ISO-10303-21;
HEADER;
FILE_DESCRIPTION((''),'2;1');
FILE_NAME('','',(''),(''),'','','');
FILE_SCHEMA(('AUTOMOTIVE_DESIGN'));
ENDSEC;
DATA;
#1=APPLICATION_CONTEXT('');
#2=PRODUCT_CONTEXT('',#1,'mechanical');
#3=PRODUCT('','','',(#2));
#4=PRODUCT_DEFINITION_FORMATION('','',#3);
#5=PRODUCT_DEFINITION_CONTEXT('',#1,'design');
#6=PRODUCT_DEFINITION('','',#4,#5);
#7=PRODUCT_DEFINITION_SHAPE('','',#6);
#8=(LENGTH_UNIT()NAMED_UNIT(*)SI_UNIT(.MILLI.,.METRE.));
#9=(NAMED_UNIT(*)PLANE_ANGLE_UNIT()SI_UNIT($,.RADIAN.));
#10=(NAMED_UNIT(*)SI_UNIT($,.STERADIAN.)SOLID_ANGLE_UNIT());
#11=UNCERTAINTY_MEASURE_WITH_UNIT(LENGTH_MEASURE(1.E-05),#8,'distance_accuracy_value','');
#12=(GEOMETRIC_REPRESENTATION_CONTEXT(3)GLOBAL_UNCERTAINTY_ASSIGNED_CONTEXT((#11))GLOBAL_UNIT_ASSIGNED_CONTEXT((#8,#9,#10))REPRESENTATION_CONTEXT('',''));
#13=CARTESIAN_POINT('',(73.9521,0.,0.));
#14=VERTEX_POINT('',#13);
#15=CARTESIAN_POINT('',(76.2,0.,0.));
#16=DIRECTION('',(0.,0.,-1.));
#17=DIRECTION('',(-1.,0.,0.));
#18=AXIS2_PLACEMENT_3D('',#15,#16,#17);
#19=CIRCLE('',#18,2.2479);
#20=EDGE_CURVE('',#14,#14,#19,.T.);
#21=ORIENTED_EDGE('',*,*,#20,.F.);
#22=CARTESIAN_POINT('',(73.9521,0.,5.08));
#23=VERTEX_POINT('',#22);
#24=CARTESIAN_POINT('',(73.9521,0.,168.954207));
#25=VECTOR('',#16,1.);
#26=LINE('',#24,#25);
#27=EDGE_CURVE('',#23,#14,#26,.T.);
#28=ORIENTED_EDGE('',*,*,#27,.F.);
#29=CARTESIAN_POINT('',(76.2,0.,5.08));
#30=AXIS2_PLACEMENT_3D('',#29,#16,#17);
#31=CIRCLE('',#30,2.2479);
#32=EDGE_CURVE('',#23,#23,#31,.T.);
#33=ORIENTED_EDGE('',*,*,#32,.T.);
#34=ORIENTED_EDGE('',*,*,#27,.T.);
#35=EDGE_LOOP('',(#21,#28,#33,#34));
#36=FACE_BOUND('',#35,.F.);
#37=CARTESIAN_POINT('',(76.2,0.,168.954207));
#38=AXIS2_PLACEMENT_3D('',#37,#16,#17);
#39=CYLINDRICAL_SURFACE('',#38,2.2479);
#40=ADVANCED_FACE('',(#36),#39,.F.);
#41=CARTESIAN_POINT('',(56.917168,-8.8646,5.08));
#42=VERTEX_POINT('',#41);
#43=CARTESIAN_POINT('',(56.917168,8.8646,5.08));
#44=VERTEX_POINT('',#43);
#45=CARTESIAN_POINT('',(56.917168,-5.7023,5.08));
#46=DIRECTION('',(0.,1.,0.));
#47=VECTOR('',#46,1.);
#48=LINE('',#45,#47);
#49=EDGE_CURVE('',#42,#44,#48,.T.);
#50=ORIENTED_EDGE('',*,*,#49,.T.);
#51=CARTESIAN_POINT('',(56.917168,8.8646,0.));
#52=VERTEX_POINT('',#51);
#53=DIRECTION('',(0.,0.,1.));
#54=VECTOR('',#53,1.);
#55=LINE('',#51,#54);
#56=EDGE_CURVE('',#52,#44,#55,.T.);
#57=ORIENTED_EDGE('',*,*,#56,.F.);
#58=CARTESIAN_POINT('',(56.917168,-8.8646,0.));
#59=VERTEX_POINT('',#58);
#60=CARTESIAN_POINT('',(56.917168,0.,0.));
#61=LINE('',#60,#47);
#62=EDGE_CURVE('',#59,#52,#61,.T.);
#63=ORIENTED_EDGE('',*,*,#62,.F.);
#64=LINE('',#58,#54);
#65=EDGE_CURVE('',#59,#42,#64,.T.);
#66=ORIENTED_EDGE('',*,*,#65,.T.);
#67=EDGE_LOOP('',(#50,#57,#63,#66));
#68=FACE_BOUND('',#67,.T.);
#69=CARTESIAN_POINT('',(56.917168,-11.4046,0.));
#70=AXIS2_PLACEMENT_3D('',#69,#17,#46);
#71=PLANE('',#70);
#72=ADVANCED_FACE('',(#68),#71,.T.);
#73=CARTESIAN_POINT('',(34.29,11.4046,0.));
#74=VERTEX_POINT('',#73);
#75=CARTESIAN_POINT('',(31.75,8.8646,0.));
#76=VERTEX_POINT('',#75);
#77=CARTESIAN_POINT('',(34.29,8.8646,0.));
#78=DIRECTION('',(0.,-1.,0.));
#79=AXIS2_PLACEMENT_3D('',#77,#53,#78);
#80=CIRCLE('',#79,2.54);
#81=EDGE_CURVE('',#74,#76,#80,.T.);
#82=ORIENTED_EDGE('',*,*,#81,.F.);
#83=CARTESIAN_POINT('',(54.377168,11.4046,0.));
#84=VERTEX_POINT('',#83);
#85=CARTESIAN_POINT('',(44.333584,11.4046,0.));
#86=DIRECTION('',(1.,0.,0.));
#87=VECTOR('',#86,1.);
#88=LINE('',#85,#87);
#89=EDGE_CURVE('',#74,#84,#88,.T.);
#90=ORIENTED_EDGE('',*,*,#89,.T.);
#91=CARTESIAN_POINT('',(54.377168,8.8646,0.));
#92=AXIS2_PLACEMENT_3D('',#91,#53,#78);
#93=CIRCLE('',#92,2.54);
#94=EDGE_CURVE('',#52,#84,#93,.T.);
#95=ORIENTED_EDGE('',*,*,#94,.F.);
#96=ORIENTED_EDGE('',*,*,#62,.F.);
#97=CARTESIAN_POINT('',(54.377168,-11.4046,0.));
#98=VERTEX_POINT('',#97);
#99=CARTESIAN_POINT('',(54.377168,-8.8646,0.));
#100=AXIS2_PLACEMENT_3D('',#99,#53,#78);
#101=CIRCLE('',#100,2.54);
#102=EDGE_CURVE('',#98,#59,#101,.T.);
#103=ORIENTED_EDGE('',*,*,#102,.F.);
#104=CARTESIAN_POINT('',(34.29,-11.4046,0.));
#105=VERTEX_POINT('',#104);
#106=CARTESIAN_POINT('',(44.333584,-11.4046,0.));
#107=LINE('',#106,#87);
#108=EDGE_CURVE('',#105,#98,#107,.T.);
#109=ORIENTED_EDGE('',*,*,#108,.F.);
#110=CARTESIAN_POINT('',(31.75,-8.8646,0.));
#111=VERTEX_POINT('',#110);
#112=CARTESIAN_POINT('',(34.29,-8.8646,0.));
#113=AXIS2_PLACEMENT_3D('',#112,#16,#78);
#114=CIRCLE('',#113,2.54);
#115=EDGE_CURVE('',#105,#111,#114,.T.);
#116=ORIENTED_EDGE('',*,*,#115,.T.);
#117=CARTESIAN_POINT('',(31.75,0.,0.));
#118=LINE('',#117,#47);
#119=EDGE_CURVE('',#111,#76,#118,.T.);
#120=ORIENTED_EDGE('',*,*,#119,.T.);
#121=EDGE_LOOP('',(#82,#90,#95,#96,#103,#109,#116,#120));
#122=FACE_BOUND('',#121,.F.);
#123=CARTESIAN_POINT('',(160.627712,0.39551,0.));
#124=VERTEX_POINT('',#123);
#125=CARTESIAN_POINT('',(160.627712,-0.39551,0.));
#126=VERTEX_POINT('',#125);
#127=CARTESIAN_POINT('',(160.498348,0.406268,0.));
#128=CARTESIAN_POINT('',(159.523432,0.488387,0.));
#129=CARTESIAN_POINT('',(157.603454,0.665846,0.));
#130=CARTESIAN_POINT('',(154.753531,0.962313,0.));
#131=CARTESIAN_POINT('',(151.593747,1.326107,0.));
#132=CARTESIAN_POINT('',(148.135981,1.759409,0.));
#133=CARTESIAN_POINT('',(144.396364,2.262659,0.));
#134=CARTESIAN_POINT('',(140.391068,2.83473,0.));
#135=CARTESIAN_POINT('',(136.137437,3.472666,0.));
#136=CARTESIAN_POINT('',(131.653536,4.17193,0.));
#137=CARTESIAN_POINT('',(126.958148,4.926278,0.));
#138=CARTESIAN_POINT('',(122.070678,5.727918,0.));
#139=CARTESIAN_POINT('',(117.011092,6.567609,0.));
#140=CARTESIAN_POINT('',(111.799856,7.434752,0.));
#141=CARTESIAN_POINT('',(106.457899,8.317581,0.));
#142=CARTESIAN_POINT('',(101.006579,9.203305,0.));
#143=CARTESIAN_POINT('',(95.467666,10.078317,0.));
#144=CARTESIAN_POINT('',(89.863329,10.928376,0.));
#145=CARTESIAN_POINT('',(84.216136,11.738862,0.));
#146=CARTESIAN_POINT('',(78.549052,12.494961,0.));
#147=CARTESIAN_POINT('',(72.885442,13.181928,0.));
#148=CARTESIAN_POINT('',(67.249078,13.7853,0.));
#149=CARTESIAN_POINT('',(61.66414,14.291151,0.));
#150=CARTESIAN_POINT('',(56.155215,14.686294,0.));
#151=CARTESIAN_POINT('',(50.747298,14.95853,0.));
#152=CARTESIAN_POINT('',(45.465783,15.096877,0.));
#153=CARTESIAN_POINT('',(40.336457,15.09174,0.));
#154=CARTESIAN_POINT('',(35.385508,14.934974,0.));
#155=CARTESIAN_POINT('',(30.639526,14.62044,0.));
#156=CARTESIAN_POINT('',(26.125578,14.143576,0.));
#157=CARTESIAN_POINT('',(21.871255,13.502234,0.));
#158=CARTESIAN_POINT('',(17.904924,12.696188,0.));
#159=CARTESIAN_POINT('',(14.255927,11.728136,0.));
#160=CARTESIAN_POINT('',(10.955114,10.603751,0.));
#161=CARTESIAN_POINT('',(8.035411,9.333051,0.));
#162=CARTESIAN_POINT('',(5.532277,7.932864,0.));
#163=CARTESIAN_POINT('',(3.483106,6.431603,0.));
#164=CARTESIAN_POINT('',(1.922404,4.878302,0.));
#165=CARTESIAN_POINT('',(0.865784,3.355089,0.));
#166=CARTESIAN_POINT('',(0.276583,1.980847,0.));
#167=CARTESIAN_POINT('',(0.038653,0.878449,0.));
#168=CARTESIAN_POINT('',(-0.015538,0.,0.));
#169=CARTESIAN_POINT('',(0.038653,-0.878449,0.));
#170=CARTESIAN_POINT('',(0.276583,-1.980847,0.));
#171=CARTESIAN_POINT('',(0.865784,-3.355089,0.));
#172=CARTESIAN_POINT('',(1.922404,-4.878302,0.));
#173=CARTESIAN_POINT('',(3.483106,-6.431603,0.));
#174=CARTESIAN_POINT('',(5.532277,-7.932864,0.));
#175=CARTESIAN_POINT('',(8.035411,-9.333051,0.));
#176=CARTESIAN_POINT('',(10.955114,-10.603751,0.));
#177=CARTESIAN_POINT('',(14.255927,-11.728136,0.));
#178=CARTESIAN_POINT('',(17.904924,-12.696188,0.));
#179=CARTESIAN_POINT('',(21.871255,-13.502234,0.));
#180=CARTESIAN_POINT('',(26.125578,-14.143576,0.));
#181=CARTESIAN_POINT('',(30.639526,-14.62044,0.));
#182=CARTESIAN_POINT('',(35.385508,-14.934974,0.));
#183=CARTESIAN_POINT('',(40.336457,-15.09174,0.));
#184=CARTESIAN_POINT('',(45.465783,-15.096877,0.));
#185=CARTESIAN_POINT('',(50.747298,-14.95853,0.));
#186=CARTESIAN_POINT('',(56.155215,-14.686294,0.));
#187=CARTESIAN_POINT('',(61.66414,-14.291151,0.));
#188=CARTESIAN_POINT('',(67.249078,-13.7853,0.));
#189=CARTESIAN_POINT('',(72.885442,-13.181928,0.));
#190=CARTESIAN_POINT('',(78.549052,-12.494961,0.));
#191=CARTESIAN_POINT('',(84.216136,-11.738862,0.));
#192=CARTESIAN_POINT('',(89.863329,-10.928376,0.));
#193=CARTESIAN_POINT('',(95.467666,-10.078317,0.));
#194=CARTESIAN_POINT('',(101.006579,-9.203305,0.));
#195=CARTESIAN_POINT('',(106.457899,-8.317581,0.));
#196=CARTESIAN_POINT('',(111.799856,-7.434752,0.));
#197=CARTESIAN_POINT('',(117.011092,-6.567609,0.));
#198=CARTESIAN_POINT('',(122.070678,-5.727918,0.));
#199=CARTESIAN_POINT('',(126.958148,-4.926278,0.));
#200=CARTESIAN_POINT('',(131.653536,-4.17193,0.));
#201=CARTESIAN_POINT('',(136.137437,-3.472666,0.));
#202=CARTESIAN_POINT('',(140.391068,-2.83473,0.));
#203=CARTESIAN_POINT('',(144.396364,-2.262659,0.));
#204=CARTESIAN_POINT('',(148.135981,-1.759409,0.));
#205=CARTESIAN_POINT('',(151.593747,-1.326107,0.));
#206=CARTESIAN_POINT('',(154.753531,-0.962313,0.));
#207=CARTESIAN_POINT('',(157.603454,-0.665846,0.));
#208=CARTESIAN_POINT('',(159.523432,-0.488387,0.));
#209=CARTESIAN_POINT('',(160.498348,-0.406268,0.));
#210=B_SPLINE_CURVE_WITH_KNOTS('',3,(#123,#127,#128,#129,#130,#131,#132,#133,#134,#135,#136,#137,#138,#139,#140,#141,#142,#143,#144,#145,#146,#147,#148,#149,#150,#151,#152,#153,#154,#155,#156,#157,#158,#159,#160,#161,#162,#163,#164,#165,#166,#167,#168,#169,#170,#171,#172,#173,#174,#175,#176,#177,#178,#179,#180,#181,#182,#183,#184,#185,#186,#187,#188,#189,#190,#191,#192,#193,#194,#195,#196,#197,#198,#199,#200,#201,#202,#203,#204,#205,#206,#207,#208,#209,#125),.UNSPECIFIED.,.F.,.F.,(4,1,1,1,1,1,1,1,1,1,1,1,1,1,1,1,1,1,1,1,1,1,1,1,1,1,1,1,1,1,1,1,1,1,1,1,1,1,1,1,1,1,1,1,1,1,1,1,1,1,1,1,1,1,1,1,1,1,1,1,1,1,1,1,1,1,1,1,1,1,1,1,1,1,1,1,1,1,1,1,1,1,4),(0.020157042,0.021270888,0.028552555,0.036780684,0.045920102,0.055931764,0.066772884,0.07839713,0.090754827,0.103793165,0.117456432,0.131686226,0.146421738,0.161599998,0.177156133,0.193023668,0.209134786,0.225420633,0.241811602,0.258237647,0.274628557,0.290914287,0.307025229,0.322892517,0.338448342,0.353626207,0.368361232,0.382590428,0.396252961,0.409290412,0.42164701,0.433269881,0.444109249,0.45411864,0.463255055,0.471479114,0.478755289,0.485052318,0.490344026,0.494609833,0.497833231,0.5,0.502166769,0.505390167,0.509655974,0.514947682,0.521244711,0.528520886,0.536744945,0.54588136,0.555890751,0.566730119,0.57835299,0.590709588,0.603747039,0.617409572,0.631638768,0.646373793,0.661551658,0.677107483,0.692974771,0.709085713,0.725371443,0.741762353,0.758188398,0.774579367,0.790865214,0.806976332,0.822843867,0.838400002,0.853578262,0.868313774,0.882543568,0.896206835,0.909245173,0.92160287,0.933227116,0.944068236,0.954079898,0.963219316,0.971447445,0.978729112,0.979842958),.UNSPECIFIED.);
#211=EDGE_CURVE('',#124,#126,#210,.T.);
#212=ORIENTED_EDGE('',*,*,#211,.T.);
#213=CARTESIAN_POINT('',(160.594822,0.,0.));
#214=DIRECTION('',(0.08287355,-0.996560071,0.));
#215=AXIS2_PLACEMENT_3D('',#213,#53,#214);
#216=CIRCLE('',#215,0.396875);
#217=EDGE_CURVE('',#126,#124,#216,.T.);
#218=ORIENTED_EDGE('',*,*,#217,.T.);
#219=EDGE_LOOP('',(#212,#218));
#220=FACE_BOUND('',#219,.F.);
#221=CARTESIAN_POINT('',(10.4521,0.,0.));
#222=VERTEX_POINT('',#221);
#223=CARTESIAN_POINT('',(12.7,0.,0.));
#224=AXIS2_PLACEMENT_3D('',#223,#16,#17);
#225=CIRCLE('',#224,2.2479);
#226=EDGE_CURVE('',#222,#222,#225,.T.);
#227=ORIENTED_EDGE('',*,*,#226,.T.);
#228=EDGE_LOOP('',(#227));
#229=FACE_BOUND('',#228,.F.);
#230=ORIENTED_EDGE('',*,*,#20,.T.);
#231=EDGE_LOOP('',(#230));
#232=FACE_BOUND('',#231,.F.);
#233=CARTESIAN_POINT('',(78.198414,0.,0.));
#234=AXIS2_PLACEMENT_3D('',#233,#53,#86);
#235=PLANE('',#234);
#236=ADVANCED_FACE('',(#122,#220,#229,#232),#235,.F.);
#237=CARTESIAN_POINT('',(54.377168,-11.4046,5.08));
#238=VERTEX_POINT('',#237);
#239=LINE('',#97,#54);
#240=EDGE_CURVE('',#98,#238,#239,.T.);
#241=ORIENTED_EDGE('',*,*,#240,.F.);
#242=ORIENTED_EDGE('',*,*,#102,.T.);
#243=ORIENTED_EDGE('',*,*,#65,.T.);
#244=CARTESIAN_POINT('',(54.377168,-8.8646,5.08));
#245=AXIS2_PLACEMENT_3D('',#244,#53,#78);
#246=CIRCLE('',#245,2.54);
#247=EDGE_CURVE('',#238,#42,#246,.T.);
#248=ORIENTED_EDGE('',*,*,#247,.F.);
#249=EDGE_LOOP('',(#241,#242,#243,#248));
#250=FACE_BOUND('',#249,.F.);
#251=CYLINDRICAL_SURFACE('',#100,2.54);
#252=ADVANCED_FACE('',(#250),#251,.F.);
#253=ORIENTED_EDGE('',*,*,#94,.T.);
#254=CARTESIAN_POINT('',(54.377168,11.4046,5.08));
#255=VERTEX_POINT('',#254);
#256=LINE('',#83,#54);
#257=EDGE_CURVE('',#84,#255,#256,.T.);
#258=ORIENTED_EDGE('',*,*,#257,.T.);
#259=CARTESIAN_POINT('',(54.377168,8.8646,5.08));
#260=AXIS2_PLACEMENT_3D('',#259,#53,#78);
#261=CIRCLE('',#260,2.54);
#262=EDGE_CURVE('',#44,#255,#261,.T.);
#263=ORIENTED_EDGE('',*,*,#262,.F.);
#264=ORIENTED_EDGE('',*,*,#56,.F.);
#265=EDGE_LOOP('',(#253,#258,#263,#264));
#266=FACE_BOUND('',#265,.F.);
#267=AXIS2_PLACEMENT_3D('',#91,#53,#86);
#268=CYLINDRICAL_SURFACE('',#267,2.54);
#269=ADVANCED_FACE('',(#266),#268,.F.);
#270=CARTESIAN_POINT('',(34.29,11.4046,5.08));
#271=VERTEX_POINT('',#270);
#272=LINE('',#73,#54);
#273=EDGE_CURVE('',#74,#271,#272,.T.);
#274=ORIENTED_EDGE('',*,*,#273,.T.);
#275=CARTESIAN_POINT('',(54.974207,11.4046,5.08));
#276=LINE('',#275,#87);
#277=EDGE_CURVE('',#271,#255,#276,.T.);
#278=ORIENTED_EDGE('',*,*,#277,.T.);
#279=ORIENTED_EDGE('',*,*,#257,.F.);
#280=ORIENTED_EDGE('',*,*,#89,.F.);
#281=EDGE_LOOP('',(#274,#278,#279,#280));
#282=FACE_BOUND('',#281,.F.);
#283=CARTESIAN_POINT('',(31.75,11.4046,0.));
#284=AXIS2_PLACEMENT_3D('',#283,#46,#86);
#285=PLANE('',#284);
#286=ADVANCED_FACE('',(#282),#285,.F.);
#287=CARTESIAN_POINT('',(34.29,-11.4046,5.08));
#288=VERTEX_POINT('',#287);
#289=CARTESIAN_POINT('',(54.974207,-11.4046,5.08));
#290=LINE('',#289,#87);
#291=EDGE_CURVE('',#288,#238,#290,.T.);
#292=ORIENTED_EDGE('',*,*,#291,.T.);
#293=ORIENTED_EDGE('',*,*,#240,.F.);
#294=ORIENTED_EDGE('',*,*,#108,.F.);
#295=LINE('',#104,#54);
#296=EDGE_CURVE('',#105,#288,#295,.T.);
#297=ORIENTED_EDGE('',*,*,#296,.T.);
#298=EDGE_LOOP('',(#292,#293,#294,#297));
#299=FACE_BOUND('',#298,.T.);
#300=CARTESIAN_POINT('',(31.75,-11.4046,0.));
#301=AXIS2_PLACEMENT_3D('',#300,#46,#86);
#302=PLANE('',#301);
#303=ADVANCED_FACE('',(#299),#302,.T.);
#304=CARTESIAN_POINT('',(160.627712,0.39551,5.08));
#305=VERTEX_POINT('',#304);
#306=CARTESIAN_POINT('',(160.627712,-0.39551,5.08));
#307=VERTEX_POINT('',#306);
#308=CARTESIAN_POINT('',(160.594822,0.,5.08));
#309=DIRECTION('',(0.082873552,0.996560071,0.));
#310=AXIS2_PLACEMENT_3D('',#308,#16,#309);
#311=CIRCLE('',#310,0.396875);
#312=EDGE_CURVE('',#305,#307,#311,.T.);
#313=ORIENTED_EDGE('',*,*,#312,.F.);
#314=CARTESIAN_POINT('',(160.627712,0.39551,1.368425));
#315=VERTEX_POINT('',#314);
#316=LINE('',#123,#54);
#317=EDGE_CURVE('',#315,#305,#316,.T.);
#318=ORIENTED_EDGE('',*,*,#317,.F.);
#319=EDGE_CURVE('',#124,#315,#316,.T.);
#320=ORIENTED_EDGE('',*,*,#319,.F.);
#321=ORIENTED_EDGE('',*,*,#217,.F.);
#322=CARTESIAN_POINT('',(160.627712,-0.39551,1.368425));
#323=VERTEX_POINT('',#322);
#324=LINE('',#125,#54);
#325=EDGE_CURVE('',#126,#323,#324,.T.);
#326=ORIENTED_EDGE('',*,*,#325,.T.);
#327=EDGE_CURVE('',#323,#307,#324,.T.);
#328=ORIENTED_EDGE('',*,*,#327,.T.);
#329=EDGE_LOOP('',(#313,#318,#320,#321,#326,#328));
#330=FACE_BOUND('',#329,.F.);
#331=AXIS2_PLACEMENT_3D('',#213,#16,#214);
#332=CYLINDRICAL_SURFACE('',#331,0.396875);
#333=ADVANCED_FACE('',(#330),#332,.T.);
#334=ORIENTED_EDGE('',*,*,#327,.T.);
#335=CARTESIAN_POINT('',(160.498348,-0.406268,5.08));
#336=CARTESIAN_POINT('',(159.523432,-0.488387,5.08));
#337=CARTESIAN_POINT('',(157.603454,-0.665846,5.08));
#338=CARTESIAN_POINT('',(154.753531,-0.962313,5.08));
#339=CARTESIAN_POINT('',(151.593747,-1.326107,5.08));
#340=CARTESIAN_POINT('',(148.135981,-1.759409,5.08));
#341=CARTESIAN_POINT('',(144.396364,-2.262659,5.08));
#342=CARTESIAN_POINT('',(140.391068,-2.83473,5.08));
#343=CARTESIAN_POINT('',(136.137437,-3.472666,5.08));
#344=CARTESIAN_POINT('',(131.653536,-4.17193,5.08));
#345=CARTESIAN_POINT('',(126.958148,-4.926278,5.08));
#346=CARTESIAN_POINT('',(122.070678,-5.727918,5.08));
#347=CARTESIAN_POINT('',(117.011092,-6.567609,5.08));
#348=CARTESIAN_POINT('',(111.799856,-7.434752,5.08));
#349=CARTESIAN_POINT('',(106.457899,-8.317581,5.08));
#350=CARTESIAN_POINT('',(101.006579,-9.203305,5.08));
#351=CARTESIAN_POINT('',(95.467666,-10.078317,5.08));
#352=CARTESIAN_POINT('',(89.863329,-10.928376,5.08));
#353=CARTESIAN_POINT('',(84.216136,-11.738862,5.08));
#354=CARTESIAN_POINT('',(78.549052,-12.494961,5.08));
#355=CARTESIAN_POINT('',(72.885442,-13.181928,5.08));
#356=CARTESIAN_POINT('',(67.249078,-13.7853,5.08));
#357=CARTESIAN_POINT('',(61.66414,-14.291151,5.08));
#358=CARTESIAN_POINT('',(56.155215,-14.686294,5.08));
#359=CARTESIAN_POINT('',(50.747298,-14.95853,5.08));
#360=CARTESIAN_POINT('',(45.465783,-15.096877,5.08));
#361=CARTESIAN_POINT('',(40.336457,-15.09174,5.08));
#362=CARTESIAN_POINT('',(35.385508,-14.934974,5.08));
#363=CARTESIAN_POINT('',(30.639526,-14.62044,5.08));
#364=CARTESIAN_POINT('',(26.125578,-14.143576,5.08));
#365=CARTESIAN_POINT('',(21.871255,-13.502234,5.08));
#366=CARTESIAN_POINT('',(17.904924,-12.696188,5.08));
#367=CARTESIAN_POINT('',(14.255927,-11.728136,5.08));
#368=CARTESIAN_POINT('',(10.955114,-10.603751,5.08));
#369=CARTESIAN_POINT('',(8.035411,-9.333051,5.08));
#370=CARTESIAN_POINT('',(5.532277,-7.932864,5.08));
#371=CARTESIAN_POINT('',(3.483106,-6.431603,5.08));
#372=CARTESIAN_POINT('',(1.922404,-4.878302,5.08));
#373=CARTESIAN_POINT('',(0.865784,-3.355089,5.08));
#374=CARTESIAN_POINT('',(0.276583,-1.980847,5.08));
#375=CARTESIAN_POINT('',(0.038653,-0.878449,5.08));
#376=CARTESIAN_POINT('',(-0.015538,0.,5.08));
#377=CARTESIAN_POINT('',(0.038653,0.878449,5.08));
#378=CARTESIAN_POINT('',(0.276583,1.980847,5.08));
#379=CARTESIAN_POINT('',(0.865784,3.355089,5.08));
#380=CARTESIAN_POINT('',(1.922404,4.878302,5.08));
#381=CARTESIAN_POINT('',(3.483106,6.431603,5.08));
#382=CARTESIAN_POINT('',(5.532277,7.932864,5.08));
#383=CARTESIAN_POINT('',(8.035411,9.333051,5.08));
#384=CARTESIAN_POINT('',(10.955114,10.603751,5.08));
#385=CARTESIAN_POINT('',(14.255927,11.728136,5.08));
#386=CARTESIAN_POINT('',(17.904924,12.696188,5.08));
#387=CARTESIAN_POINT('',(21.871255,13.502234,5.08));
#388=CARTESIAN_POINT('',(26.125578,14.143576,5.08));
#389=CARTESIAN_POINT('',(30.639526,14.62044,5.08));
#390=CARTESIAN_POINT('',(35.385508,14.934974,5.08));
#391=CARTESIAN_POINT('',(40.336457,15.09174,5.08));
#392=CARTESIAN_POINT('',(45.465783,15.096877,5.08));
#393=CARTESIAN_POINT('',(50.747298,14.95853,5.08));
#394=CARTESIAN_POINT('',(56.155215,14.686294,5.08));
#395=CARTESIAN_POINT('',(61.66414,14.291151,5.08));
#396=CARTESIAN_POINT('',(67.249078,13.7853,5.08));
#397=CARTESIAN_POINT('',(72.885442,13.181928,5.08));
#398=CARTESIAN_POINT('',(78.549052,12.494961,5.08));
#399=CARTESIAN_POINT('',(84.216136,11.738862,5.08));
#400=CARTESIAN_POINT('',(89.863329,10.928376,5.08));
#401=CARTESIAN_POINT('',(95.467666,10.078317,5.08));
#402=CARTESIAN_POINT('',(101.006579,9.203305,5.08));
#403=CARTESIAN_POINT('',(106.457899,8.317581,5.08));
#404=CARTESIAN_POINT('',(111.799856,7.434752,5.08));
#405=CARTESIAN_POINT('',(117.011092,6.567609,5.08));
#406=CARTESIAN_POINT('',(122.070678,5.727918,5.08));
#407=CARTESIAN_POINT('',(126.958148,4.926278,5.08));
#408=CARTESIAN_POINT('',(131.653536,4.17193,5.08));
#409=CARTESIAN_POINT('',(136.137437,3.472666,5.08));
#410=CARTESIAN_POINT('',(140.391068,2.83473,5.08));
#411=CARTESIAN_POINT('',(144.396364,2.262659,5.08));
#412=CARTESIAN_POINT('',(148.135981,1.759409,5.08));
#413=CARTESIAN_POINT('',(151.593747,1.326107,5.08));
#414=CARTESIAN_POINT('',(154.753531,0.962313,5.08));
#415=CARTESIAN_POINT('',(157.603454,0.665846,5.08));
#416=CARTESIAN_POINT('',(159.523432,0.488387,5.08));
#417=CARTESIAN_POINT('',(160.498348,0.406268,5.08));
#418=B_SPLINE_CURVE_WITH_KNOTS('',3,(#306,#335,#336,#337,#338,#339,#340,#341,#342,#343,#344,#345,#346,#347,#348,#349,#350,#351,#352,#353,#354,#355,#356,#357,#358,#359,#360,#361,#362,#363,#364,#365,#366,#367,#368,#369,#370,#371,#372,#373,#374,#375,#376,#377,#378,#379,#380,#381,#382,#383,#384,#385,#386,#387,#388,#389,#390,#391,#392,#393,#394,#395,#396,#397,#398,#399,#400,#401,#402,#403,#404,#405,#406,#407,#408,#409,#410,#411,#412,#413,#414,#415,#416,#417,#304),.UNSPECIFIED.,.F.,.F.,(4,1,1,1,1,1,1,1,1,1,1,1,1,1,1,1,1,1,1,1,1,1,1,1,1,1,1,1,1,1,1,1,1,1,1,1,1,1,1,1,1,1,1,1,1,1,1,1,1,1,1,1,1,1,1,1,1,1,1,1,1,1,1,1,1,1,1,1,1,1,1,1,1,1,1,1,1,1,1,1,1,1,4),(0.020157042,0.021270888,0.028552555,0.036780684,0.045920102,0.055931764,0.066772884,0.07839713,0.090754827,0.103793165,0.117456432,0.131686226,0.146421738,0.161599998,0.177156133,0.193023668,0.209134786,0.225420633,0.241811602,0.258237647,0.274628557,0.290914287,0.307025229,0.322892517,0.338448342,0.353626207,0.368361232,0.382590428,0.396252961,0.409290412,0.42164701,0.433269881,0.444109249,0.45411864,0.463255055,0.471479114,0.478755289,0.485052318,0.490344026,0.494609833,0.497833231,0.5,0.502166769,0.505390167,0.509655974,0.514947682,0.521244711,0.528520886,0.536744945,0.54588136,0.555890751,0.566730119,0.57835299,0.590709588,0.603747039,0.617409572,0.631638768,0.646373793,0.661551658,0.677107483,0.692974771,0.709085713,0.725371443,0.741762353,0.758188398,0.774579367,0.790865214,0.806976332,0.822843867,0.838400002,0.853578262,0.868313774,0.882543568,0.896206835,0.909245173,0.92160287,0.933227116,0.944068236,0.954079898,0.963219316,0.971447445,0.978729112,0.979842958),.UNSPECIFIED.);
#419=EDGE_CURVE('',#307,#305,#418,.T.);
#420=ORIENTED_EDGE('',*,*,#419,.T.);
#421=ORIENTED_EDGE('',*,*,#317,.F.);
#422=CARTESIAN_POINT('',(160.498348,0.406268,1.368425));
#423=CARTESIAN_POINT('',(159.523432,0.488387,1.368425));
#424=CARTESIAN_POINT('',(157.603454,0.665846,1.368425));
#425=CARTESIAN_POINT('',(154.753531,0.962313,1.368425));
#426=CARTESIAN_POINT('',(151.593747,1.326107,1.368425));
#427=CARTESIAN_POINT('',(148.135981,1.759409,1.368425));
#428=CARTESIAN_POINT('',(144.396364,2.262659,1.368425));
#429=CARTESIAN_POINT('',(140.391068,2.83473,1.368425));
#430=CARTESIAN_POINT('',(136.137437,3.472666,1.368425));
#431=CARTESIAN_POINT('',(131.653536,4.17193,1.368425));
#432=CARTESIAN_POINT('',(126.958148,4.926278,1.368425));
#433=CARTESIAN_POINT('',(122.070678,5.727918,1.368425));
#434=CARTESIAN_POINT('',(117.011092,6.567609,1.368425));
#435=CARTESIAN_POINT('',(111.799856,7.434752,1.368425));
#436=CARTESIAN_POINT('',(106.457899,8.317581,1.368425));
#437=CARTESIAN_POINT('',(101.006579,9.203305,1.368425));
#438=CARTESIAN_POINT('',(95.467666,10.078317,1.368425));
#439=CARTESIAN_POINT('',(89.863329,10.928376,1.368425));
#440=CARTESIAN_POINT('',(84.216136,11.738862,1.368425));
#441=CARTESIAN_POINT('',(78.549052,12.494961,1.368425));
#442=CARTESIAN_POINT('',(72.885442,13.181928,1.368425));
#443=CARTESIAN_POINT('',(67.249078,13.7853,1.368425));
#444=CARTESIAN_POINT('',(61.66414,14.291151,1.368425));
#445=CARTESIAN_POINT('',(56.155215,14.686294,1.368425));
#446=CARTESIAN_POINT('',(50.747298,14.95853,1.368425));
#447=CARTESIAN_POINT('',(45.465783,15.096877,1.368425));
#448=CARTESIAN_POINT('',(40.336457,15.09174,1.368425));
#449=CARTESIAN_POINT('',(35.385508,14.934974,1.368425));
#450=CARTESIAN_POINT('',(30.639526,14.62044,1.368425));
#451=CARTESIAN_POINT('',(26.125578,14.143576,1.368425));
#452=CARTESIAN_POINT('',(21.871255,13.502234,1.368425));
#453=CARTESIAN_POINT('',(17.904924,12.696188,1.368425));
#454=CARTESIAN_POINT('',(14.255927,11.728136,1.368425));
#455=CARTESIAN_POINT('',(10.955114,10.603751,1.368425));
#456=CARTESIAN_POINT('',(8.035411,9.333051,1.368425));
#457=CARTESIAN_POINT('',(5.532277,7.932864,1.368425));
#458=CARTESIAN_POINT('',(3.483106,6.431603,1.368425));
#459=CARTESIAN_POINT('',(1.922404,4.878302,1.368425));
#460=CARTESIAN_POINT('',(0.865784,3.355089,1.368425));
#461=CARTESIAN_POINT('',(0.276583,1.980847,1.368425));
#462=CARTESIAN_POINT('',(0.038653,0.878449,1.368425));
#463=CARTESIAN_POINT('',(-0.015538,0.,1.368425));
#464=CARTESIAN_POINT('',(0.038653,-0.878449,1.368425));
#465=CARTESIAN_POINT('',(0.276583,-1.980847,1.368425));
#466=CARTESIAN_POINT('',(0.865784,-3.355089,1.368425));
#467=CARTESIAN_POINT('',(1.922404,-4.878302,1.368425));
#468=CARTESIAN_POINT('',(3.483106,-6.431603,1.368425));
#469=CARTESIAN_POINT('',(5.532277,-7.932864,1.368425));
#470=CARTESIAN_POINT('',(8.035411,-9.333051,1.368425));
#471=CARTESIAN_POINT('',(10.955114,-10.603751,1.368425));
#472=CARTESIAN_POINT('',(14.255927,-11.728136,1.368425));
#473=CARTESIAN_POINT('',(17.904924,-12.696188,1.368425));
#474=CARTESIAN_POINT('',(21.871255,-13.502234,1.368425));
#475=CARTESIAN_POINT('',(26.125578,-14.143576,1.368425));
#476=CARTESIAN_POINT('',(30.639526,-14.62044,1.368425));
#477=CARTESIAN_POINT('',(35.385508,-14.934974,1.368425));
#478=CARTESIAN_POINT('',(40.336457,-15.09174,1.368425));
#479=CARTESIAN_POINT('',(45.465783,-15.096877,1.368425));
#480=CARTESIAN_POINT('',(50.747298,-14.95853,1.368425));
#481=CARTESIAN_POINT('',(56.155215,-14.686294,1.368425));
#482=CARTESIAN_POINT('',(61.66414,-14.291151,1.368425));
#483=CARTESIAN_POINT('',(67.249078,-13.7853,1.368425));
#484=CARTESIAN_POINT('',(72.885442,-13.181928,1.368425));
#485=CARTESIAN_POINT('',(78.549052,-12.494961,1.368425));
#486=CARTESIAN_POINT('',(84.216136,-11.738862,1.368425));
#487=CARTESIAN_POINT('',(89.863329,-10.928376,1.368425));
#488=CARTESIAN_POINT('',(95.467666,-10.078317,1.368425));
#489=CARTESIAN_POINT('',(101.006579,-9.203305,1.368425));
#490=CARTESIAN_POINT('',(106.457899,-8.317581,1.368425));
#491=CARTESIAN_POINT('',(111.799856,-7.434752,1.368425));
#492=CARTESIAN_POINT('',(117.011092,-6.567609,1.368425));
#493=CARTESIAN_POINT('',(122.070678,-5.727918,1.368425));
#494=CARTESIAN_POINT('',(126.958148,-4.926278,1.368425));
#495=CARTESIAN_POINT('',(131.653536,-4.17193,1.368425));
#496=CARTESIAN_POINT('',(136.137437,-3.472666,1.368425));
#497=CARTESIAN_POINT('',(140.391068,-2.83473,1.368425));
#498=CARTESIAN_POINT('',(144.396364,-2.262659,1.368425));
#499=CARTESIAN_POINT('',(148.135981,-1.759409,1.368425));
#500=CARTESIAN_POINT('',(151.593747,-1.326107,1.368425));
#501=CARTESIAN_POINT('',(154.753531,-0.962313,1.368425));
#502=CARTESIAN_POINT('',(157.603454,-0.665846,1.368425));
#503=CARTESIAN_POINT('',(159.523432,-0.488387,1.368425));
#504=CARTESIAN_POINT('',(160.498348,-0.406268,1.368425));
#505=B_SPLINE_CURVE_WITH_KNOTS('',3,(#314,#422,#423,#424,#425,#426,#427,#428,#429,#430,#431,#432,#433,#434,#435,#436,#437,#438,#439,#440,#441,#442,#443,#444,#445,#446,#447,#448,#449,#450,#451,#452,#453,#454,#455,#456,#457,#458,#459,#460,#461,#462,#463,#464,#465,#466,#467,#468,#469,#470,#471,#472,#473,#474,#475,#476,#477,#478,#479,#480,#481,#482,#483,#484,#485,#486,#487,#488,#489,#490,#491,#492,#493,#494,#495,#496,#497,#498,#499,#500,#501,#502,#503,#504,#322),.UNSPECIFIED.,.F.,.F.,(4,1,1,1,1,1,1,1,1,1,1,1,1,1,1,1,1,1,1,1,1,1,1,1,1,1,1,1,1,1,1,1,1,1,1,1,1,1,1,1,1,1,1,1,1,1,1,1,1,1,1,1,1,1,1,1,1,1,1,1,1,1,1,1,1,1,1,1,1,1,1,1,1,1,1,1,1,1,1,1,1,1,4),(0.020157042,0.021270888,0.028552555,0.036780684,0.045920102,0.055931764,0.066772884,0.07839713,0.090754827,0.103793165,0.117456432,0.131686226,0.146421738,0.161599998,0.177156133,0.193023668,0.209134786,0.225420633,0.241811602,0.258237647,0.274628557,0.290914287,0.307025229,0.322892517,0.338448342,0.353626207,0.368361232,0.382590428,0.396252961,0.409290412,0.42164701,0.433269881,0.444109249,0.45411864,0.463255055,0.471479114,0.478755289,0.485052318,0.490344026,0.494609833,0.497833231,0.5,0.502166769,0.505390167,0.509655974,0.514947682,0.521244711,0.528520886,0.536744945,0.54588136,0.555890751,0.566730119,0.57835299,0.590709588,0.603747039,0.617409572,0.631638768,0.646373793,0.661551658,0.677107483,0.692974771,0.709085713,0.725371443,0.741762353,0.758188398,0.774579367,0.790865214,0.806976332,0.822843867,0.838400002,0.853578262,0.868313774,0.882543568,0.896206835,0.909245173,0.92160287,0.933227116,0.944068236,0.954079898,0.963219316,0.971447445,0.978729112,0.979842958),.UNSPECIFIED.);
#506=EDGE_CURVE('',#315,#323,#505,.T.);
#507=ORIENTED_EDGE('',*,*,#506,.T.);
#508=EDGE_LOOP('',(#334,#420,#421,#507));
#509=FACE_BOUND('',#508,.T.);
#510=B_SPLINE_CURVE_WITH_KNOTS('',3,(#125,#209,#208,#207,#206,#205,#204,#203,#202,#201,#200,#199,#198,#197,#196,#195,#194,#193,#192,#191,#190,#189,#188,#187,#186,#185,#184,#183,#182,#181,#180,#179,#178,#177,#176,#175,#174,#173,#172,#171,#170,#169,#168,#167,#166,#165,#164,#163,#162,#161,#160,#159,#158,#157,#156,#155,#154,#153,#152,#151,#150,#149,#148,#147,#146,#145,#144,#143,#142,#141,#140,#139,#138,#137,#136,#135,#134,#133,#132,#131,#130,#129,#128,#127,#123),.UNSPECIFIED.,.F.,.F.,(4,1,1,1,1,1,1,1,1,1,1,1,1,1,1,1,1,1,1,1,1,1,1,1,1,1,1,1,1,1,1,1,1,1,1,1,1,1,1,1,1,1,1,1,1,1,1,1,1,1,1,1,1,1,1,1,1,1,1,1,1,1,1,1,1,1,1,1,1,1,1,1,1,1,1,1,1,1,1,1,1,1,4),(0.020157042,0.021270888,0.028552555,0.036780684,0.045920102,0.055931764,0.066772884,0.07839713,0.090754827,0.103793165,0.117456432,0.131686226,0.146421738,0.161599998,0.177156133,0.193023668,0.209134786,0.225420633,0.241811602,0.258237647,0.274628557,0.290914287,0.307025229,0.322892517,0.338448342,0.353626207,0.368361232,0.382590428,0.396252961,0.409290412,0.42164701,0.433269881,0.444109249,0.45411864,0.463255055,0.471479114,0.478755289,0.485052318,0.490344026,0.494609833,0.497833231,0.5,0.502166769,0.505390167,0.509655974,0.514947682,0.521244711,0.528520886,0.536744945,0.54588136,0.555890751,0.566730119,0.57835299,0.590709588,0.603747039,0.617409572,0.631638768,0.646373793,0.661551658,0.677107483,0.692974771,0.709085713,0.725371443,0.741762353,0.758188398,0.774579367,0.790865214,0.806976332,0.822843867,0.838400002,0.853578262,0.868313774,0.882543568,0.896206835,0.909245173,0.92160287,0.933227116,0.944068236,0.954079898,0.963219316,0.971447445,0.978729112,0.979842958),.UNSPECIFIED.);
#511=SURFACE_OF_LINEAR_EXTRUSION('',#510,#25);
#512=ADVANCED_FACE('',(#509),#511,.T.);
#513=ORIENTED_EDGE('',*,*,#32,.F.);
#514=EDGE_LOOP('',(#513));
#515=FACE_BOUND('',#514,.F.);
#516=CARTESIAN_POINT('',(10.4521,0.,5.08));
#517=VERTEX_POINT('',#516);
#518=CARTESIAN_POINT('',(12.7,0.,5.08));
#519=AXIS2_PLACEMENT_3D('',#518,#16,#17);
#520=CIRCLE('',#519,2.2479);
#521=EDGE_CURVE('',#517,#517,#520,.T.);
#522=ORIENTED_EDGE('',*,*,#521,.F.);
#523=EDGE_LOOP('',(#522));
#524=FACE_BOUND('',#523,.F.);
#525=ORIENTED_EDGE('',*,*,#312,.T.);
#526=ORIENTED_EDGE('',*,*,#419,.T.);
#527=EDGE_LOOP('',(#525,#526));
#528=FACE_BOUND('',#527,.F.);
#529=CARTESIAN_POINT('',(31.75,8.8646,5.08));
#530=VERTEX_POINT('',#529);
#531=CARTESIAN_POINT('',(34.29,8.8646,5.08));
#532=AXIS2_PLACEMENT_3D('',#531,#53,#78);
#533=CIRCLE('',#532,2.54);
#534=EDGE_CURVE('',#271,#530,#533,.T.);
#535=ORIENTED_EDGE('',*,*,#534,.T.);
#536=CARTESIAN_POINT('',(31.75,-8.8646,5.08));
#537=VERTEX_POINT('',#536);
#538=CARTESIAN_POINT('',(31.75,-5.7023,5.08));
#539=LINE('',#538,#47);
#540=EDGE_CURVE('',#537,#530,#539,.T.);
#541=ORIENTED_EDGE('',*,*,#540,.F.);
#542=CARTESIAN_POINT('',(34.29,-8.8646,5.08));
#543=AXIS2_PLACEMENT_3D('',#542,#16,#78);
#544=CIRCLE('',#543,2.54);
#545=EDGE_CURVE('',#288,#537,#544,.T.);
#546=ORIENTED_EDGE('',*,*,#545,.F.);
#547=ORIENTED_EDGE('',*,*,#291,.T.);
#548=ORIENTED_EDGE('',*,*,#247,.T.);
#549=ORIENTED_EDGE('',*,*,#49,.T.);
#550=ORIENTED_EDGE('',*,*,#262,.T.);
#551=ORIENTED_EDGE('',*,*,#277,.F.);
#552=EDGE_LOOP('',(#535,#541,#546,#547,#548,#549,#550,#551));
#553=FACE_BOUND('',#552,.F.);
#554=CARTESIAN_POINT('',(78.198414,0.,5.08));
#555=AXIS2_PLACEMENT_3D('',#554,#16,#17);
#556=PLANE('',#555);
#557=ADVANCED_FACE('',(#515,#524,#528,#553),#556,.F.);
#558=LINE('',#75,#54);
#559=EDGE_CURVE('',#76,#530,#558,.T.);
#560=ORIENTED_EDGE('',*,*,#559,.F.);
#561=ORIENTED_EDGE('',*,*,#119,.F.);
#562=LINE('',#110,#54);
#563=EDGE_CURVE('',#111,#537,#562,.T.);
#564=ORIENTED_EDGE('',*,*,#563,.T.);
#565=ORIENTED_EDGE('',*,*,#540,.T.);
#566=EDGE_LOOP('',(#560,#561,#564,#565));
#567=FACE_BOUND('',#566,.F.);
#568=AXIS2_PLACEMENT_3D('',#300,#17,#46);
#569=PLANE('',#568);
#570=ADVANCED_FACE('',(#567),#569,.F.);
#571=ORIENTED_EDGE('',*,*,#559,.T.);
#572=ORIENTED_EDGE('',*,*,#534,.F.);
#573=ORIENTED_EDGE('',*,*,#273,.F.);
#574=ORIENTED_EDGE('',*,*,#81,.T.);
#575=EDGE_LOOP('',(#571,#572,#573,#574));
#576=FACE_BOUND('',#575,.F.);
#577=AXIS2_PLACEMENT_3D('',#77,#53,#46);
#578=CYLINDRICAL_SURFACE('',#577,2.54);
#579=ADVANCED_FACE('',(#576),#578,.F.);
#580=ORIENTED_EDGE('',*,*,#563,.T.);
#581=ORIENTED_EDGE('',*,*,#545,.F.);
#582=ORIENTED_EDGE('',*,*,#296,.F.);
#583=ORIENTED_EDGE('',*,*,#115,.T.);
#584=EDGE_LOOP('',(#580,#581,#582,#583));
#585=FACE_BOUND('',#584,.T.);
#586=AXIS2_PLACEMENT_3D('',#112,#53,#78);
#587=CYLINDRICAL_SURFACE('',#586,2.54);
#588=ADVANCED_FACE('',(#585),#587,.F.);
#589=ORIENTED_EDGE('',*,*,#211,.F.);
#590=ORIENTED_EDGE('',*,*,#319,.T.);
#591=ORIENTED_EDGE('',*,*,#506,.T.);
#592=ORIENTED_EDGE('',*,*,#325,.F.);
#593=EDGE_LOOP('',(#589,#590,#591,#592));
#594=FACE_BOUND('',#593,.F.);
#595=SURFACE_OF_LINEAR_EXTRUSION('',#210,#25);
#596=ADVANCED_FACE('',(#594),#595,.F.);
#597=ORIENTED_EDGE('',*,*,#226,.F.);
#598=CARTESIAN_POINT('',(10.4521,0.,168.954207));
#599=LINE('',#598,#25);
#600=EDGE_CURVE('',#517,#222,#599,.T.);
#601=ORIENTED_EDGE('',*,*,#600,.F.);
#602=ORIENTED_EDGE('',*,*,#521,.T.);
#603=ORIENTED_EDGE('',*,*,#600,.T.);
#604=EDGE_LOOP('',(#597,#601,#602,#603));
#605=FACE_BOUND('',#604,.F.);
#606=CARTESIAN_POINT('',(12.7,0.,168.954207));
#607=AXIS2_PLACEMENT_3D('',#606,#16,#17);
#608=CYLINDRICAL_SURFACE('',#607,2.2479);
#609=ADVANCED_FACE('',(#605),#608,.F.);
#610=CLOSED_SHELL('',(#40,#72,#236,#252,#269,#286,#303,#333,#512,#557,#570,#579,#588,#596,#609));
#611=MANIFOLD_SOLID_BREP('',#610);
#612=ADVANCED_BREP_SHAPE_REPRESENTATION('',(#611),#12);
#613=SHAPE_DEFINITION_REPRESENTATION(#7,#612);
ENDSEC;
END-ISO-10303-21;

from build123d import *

# Parameters (mm, degrees)
BOSS_EXTRUDE1_DEPTH   = 5.4737
SCALE1_SCALE          = 0.25
BOSS_EXTRUDE2_DEPTH   = 5.08
SKETCH10_W            = 25.167167629
SKETCH10_H            = 22.8092
CUT_EXTRUDE6_DEPTH    = 6.0800001
FILLET1_R             = 2.54
F_8_CLEARANCE_HOLE1_D = 4.4958


with BuildPart() as part:
    # Sketch2 → Boss-Extrude1 (new body)
    with BuildSketch(Plane.XY):
        with BuildLine():
            add(Edge.make_bspline(
                [(642.510849283, 1.582039112), (641.993392355, 1.625070631), (638.093728429, 1.953546407), (630.413817462, 2.663385493), (619.014124193, 3.849253664), (606.374988512, 5.304428983), (592.543922516, 7.037634907), (577.585454095, 9.050636147), (561.564270734, 11.338919625), (544.549749946, 13.890665375), (526.614143658, 16.687720753), (507.832591566, 19.705111663), (488.282710288, 22.911672601), (468.044367735, 26.27043606), (447.199424328, 29.739007432), (425.831595832, 33.270324121), (404.02631566, 36.813220545), (381.870662856, 40.313266856), (359.453314895, 43.713502532), (336.86454415, 46.955447457), (314.196207315, 49.979843895), (291.541767704, 52.727712704), (268.996310773, 55.141201012), (246.65655865, 57.164603829), (224.620860897, 58.745176641), (202.989192599, 59.8341217), (181.863132616, 60.387506142), (161.345829027, 60.366961324), (141.542033828, 59.739895824), (122.558104573, 58.481758104), (104.502313427, 56.574303932), (87.485018636, 54.008935199), (71.619696083, 50.784752003), (57.023709725, 46.912543066), (43.82045433, 42.41500246), (32.141645239, 37.332204029), (22.129107375, 31.731455339), (13.932423524, 25.726412106), (7.689616489, 19.513207632), (3.463136343, 13.420354421), (1.106333228, 7.923389435), (0.154611582, 3.513796615), (-0.062151598, 0), (0.154611582, -3.513796615), (1.106333228, -7.923389435), (3.463136343, -13.420354421), (7.689616489, -19.513207632), (13.932423524, -25.726412106), (22.129107375, -31.731455339), (32.141645239, -37.332204029), (43.82045433, -42.41500246), (57.023709725, -46.912543066), (71.619696083, -50.784752003), (87.485018636, -54.008935199), (104.502313427, -56.574303932), (122.558104573, -58.481758104), (141.542033828, -59.739895824), (161.345829027, -60.366961324), (181.863132616, -60.387506142), (202.989192599, -59.8341217), (224.620860897, -58.745176641), (246.65655865, -57.164603829), (268.996310773, -55.141201012), (291.541767704, -52.727712704), (314.196207315, -49.979843895), (336.86454415, -46.955447457), (359.453314895, -43.713502532), (381.870662856, -40.313266856), (404.02631566, -36.813220545), (425.831595832, -33.270324121), (447.199424328, -29.739007432), (468.044367735, -26.27043606), (488.282710288, -22.911672601), (507.832591566, -19.705111663), (526.614143658, -16.687720753), (544.549749946, -13.890665375), (561.564270734, -11.338919625), (577.585454095, -9.050636147), (592.543922516, -7.037634907), (606.374988512, -5.304428983), (619.014124193, -3.849253664), (630.413817462, -2.663385493), (638.093728429, -1.953546407), (641.993392355, -1.625070631), (642.510849283, -1.582039112)],
                knots=[0.020157042, 0.020157042, 0.020157042, 0.020157042, 0.021270888, 0.028552555, 0.036780684, 0.045920102, 0.055931764, 0.066772884, 0.07839713, 0.090754827, 0.103793165, 0.117456432, 0.131686226, 0.146421738, 0.161599998, 0.177156133, 0.193023668, 0.209134786, 0.225420633, 0.241811602, 0.258237647, 0.274628557, 0.290914287, 0.307025229, 0.322892517, 0.338448342, 0.353626207, 0.368361232, 0.382590428, 0.396252961, 0.409290412, 0.42164701, 0.433269881, 0.444109249, 0.45411864, 0.463255055, 0.471479114, 0.478755289, 0.485052318, 0.490344026, 0.494609833, 0.497833231, 0.5, 0.502166769, 0.505390167, 0.509655974, 0.514947682, 0.521244711, 0.528520886, 0.536744945, 0.54588136, 0.555890751, 0.566730119, 0.57835299, 0.590709588, 0.603747039, 0.617409572, 0.631638768, 0.646373793, 0.661551658, 0.677107483, 0.692974771, 0.709085713, 0.725371443, 0.741762353, 0.758188398, 0.774579367, 0.790865214, 0.806976332, 0.822843867, 0.838400002, 0.853578262, 0.868313774, 0.882543568, 0.896206835, 0.909245173, 0.92160287, 0.933227116, 0.944068236, 0.954079898, 0.963219316, 0.971447445, 0.978729112, 0.979842958, 0.979842958, 0.979842958, 0.979842958], degree=3))
            ThreePointArc((642.510849283, -1.582039112), (643.966787522, 0), (642.510849283, 1.582039112))
        make_face()
    extrude(amount=BOSS_EXTRUDE1_DEPTH)


with BuildPart() as part_1:
    # Scale1: scaled about (0, 0, 0)
    add(part.part.scale(SCALE1_SCALE))

    # Sketch11 → Boss-Extrude2 (add)
    with BuildSketch(Plane(origin=(0, 0, 0), x_dir=(-1, 0, 0), z_dir=(0, 0, -1))):
        with BuildLine():
            ThreePointArc((-160.627712321, 0.395509778), (-160.99169688, 0), (-160.627712321, -0.395509778))
            add(Edge.make_bspline(
                [(-160.627712321, -0.395509778), (-160.498348089, -0.406267658), (-159.523432107, -0.488386602), (-157.603454365, -0.665846373), (-154.753531048, -0.962313416), (-151.593747128, -1.326107246), (-148.135980629, -1.759408727), (-144.396363524, -2.262659037), (-140.391067684, -2.834729906), (-136.137437486, -3.472666344), (-131.653535914, -4.171930188), (-126.958147892, -4.926277916), (-122.070677572, -5.72791815), (-117.011091934, -6.567609015), (-111.799856082, -7.434751858), (-106.457898958, -8.31758103), (-101.006578915, -9.203305136), (-95.467665714, -10.078316714), (-89.863328724, -10.928375633), (-84.216136038, -11.738861864), (-78.549051829, -12.494960974), (-72.885441926, -13.181928176), (-67.249077693, -13.785300253), (-61.664139662, -14.291150957), (-56.155215224, -14.68629416), (-50.74729815, -14.958530425), (-45.465783154, -15.096876536), (-40.336457257, -15.091740331), (-35.385508457, -14.934973956), (-30.639526143, -14.620439526), (-26.125578357, -14.143575983), (-21.871254659, -13.5022338), (-17.904924021, -12.696188001), (-14.255927431, -11.728135766), (-10.955113583, -10.603750615), (-8.03541131, -9.333051007), (-5.532276844, -7.932863835), (-3.483105881, -6.431603026), (-1.922404122, -4.878301908), (-0.865784086, -3.355088605), (-0.276583307, -1.980847359), (-0.038652895, -0.878449154), (0.015537899, 0), (-0.038652895, 0.878449154), (-0.276583307, 1.980847359), (-0.865784086, 3.355088605), (-1.922404122, 4.878301908), (-3.483105881, 6.431603026), (-5.532276844, 7.932863835), (-8.03541131, 9.333051007), (-10.955113583, 10.603750615), (-14.255927431, 11.728135766), (-17.904924021, 12.696188001), (-21.871254659, 13.5022338), (-26.125578357, 14.143575983), (-30.639526143, 14.620439526), (-35.385508457, 14.934973956), (-40.336457257, 15.091740331), (-45.465783154, 15.096876536), (-50.74729815, 14.958530425), (-56.155215224, 14.68629416), (-61.664139662, 14.291150957), (-67.249077693, 13.785300253), (-72.885441926, 13.181928176), (-78.549051829, 12.494960974), (-84.216136038, 11.738861864), (-89.863328724, 10.928375633), (-95.467665714, 10.078316714), (-101.006578915, 9.203305136), (-106.457898958, 8.31758103), (-111.799856082, 7.434751858), (-117.011091934, 6.567609015), (-122.070677572, 5.72791815), (-126.958147892, 4.926277916), (-131.653535914, 4.171930188), (-136.137437486, 3.472666344), (-140.391067684, 2.834729906), (-144.396363524, 2.262659037), (-148.135980629, 1.759408727), (-151.593747128, 1.326107246), (-154.753531048, 0.962313416), (-157.603454365, 0.665846373), (-159.523432107, 0.488386602), (-160.498348089, 0.406267658), (-160.627712321, 0.395509778)],
                knots=[0.020157042, 0.020157042, 0.020157042, 0.020157042, 0.021270888, 0.028552555, 0.036780684, 0.045920102, 0.055931764, 0.066772884, 0.07839713, 0.090754827, 0.103793165, 0.117456432, 0.131686226, 0.146421738, 0.161599998, 0.177156133, 0.193023668, 0.209134786, 0.225420633, 0.241811602, 0.258237647, 0.274628557, 0.290914287, 0.307025229, 0.322892517, 0.338448342, 0.353626207, 0.368361232, 0.382590428, 0.396252961, 0.409290412, 0.42164701, 0.433269881, 0.444109249, 0.45411864, 0.463255055, 0.471479114, 0.478755289, 0.485052318, 0.490344026, 0.494609833, 0.497833231, 0.5, 0.502166769, 0.505390167, 0.509655974, 0.514947682, 0.521244711, 0.528520886, 0.536744945, 0.54588136, 0.555890751, 0.566730119, 0.57835299, 0.590709588, 0.603747039, 0.617409572, 0.631638768, 0.646373793, 0.661551658, 0.677107483, 0.692974771, 0.709085713, 0.725371443, 0.741762353, 0.758188398, 0.774579367, 0.790865214, 0.806976332, 0.822843867, 0.838400002, 0.853578262, 0.868313774, 0.882543568, 0.896206835, 0.909245173, 0.92160287, 0.933227116, 0.944068236, 0.954079898, 0.963219316, 0.971447445, 0.978729112, 0.979842958, 0.979842958, 0.979842958, 0.979842958], degree=3))
        make_face()
    extrude(amount=-BOSS_EXTRUDE2_DEPTH)

    # Sketch10 → Cut-Extrude6 (cut, through all)
    with BuildSketch(Plane.XY):
        with Locations((44.333583815, 0)):
            Rectangle(SKETCH10_W, SKETCH10_H)
    extrude(amount=CUT_EXTRUDE6_DEPTH, mode=Mode.SUBTRACT)

    # Fillet1
    fillet1_edges = [part_1.edges().sort_by_distance(p)[0] for p in [
        (56.917167629, -11.4046, 2.54),
        (56.917167629, 11.4046, 2.54),
        (31.75, 11.4046, 2.54),
        (31.75, -11.4046, 2.54),
    ]]
    fillet(fillet1_edges, radius=FILLET1_R)

    # #8 Clearance Hole1 (through all)
    with Locations(Plane.XY.offset(5.08)):
        with Locations((12.7, 0), (76.2, 0)):
            Hole(F_8_CLEARANCE_HOLE1_D / 2)


solid = part_1.part
